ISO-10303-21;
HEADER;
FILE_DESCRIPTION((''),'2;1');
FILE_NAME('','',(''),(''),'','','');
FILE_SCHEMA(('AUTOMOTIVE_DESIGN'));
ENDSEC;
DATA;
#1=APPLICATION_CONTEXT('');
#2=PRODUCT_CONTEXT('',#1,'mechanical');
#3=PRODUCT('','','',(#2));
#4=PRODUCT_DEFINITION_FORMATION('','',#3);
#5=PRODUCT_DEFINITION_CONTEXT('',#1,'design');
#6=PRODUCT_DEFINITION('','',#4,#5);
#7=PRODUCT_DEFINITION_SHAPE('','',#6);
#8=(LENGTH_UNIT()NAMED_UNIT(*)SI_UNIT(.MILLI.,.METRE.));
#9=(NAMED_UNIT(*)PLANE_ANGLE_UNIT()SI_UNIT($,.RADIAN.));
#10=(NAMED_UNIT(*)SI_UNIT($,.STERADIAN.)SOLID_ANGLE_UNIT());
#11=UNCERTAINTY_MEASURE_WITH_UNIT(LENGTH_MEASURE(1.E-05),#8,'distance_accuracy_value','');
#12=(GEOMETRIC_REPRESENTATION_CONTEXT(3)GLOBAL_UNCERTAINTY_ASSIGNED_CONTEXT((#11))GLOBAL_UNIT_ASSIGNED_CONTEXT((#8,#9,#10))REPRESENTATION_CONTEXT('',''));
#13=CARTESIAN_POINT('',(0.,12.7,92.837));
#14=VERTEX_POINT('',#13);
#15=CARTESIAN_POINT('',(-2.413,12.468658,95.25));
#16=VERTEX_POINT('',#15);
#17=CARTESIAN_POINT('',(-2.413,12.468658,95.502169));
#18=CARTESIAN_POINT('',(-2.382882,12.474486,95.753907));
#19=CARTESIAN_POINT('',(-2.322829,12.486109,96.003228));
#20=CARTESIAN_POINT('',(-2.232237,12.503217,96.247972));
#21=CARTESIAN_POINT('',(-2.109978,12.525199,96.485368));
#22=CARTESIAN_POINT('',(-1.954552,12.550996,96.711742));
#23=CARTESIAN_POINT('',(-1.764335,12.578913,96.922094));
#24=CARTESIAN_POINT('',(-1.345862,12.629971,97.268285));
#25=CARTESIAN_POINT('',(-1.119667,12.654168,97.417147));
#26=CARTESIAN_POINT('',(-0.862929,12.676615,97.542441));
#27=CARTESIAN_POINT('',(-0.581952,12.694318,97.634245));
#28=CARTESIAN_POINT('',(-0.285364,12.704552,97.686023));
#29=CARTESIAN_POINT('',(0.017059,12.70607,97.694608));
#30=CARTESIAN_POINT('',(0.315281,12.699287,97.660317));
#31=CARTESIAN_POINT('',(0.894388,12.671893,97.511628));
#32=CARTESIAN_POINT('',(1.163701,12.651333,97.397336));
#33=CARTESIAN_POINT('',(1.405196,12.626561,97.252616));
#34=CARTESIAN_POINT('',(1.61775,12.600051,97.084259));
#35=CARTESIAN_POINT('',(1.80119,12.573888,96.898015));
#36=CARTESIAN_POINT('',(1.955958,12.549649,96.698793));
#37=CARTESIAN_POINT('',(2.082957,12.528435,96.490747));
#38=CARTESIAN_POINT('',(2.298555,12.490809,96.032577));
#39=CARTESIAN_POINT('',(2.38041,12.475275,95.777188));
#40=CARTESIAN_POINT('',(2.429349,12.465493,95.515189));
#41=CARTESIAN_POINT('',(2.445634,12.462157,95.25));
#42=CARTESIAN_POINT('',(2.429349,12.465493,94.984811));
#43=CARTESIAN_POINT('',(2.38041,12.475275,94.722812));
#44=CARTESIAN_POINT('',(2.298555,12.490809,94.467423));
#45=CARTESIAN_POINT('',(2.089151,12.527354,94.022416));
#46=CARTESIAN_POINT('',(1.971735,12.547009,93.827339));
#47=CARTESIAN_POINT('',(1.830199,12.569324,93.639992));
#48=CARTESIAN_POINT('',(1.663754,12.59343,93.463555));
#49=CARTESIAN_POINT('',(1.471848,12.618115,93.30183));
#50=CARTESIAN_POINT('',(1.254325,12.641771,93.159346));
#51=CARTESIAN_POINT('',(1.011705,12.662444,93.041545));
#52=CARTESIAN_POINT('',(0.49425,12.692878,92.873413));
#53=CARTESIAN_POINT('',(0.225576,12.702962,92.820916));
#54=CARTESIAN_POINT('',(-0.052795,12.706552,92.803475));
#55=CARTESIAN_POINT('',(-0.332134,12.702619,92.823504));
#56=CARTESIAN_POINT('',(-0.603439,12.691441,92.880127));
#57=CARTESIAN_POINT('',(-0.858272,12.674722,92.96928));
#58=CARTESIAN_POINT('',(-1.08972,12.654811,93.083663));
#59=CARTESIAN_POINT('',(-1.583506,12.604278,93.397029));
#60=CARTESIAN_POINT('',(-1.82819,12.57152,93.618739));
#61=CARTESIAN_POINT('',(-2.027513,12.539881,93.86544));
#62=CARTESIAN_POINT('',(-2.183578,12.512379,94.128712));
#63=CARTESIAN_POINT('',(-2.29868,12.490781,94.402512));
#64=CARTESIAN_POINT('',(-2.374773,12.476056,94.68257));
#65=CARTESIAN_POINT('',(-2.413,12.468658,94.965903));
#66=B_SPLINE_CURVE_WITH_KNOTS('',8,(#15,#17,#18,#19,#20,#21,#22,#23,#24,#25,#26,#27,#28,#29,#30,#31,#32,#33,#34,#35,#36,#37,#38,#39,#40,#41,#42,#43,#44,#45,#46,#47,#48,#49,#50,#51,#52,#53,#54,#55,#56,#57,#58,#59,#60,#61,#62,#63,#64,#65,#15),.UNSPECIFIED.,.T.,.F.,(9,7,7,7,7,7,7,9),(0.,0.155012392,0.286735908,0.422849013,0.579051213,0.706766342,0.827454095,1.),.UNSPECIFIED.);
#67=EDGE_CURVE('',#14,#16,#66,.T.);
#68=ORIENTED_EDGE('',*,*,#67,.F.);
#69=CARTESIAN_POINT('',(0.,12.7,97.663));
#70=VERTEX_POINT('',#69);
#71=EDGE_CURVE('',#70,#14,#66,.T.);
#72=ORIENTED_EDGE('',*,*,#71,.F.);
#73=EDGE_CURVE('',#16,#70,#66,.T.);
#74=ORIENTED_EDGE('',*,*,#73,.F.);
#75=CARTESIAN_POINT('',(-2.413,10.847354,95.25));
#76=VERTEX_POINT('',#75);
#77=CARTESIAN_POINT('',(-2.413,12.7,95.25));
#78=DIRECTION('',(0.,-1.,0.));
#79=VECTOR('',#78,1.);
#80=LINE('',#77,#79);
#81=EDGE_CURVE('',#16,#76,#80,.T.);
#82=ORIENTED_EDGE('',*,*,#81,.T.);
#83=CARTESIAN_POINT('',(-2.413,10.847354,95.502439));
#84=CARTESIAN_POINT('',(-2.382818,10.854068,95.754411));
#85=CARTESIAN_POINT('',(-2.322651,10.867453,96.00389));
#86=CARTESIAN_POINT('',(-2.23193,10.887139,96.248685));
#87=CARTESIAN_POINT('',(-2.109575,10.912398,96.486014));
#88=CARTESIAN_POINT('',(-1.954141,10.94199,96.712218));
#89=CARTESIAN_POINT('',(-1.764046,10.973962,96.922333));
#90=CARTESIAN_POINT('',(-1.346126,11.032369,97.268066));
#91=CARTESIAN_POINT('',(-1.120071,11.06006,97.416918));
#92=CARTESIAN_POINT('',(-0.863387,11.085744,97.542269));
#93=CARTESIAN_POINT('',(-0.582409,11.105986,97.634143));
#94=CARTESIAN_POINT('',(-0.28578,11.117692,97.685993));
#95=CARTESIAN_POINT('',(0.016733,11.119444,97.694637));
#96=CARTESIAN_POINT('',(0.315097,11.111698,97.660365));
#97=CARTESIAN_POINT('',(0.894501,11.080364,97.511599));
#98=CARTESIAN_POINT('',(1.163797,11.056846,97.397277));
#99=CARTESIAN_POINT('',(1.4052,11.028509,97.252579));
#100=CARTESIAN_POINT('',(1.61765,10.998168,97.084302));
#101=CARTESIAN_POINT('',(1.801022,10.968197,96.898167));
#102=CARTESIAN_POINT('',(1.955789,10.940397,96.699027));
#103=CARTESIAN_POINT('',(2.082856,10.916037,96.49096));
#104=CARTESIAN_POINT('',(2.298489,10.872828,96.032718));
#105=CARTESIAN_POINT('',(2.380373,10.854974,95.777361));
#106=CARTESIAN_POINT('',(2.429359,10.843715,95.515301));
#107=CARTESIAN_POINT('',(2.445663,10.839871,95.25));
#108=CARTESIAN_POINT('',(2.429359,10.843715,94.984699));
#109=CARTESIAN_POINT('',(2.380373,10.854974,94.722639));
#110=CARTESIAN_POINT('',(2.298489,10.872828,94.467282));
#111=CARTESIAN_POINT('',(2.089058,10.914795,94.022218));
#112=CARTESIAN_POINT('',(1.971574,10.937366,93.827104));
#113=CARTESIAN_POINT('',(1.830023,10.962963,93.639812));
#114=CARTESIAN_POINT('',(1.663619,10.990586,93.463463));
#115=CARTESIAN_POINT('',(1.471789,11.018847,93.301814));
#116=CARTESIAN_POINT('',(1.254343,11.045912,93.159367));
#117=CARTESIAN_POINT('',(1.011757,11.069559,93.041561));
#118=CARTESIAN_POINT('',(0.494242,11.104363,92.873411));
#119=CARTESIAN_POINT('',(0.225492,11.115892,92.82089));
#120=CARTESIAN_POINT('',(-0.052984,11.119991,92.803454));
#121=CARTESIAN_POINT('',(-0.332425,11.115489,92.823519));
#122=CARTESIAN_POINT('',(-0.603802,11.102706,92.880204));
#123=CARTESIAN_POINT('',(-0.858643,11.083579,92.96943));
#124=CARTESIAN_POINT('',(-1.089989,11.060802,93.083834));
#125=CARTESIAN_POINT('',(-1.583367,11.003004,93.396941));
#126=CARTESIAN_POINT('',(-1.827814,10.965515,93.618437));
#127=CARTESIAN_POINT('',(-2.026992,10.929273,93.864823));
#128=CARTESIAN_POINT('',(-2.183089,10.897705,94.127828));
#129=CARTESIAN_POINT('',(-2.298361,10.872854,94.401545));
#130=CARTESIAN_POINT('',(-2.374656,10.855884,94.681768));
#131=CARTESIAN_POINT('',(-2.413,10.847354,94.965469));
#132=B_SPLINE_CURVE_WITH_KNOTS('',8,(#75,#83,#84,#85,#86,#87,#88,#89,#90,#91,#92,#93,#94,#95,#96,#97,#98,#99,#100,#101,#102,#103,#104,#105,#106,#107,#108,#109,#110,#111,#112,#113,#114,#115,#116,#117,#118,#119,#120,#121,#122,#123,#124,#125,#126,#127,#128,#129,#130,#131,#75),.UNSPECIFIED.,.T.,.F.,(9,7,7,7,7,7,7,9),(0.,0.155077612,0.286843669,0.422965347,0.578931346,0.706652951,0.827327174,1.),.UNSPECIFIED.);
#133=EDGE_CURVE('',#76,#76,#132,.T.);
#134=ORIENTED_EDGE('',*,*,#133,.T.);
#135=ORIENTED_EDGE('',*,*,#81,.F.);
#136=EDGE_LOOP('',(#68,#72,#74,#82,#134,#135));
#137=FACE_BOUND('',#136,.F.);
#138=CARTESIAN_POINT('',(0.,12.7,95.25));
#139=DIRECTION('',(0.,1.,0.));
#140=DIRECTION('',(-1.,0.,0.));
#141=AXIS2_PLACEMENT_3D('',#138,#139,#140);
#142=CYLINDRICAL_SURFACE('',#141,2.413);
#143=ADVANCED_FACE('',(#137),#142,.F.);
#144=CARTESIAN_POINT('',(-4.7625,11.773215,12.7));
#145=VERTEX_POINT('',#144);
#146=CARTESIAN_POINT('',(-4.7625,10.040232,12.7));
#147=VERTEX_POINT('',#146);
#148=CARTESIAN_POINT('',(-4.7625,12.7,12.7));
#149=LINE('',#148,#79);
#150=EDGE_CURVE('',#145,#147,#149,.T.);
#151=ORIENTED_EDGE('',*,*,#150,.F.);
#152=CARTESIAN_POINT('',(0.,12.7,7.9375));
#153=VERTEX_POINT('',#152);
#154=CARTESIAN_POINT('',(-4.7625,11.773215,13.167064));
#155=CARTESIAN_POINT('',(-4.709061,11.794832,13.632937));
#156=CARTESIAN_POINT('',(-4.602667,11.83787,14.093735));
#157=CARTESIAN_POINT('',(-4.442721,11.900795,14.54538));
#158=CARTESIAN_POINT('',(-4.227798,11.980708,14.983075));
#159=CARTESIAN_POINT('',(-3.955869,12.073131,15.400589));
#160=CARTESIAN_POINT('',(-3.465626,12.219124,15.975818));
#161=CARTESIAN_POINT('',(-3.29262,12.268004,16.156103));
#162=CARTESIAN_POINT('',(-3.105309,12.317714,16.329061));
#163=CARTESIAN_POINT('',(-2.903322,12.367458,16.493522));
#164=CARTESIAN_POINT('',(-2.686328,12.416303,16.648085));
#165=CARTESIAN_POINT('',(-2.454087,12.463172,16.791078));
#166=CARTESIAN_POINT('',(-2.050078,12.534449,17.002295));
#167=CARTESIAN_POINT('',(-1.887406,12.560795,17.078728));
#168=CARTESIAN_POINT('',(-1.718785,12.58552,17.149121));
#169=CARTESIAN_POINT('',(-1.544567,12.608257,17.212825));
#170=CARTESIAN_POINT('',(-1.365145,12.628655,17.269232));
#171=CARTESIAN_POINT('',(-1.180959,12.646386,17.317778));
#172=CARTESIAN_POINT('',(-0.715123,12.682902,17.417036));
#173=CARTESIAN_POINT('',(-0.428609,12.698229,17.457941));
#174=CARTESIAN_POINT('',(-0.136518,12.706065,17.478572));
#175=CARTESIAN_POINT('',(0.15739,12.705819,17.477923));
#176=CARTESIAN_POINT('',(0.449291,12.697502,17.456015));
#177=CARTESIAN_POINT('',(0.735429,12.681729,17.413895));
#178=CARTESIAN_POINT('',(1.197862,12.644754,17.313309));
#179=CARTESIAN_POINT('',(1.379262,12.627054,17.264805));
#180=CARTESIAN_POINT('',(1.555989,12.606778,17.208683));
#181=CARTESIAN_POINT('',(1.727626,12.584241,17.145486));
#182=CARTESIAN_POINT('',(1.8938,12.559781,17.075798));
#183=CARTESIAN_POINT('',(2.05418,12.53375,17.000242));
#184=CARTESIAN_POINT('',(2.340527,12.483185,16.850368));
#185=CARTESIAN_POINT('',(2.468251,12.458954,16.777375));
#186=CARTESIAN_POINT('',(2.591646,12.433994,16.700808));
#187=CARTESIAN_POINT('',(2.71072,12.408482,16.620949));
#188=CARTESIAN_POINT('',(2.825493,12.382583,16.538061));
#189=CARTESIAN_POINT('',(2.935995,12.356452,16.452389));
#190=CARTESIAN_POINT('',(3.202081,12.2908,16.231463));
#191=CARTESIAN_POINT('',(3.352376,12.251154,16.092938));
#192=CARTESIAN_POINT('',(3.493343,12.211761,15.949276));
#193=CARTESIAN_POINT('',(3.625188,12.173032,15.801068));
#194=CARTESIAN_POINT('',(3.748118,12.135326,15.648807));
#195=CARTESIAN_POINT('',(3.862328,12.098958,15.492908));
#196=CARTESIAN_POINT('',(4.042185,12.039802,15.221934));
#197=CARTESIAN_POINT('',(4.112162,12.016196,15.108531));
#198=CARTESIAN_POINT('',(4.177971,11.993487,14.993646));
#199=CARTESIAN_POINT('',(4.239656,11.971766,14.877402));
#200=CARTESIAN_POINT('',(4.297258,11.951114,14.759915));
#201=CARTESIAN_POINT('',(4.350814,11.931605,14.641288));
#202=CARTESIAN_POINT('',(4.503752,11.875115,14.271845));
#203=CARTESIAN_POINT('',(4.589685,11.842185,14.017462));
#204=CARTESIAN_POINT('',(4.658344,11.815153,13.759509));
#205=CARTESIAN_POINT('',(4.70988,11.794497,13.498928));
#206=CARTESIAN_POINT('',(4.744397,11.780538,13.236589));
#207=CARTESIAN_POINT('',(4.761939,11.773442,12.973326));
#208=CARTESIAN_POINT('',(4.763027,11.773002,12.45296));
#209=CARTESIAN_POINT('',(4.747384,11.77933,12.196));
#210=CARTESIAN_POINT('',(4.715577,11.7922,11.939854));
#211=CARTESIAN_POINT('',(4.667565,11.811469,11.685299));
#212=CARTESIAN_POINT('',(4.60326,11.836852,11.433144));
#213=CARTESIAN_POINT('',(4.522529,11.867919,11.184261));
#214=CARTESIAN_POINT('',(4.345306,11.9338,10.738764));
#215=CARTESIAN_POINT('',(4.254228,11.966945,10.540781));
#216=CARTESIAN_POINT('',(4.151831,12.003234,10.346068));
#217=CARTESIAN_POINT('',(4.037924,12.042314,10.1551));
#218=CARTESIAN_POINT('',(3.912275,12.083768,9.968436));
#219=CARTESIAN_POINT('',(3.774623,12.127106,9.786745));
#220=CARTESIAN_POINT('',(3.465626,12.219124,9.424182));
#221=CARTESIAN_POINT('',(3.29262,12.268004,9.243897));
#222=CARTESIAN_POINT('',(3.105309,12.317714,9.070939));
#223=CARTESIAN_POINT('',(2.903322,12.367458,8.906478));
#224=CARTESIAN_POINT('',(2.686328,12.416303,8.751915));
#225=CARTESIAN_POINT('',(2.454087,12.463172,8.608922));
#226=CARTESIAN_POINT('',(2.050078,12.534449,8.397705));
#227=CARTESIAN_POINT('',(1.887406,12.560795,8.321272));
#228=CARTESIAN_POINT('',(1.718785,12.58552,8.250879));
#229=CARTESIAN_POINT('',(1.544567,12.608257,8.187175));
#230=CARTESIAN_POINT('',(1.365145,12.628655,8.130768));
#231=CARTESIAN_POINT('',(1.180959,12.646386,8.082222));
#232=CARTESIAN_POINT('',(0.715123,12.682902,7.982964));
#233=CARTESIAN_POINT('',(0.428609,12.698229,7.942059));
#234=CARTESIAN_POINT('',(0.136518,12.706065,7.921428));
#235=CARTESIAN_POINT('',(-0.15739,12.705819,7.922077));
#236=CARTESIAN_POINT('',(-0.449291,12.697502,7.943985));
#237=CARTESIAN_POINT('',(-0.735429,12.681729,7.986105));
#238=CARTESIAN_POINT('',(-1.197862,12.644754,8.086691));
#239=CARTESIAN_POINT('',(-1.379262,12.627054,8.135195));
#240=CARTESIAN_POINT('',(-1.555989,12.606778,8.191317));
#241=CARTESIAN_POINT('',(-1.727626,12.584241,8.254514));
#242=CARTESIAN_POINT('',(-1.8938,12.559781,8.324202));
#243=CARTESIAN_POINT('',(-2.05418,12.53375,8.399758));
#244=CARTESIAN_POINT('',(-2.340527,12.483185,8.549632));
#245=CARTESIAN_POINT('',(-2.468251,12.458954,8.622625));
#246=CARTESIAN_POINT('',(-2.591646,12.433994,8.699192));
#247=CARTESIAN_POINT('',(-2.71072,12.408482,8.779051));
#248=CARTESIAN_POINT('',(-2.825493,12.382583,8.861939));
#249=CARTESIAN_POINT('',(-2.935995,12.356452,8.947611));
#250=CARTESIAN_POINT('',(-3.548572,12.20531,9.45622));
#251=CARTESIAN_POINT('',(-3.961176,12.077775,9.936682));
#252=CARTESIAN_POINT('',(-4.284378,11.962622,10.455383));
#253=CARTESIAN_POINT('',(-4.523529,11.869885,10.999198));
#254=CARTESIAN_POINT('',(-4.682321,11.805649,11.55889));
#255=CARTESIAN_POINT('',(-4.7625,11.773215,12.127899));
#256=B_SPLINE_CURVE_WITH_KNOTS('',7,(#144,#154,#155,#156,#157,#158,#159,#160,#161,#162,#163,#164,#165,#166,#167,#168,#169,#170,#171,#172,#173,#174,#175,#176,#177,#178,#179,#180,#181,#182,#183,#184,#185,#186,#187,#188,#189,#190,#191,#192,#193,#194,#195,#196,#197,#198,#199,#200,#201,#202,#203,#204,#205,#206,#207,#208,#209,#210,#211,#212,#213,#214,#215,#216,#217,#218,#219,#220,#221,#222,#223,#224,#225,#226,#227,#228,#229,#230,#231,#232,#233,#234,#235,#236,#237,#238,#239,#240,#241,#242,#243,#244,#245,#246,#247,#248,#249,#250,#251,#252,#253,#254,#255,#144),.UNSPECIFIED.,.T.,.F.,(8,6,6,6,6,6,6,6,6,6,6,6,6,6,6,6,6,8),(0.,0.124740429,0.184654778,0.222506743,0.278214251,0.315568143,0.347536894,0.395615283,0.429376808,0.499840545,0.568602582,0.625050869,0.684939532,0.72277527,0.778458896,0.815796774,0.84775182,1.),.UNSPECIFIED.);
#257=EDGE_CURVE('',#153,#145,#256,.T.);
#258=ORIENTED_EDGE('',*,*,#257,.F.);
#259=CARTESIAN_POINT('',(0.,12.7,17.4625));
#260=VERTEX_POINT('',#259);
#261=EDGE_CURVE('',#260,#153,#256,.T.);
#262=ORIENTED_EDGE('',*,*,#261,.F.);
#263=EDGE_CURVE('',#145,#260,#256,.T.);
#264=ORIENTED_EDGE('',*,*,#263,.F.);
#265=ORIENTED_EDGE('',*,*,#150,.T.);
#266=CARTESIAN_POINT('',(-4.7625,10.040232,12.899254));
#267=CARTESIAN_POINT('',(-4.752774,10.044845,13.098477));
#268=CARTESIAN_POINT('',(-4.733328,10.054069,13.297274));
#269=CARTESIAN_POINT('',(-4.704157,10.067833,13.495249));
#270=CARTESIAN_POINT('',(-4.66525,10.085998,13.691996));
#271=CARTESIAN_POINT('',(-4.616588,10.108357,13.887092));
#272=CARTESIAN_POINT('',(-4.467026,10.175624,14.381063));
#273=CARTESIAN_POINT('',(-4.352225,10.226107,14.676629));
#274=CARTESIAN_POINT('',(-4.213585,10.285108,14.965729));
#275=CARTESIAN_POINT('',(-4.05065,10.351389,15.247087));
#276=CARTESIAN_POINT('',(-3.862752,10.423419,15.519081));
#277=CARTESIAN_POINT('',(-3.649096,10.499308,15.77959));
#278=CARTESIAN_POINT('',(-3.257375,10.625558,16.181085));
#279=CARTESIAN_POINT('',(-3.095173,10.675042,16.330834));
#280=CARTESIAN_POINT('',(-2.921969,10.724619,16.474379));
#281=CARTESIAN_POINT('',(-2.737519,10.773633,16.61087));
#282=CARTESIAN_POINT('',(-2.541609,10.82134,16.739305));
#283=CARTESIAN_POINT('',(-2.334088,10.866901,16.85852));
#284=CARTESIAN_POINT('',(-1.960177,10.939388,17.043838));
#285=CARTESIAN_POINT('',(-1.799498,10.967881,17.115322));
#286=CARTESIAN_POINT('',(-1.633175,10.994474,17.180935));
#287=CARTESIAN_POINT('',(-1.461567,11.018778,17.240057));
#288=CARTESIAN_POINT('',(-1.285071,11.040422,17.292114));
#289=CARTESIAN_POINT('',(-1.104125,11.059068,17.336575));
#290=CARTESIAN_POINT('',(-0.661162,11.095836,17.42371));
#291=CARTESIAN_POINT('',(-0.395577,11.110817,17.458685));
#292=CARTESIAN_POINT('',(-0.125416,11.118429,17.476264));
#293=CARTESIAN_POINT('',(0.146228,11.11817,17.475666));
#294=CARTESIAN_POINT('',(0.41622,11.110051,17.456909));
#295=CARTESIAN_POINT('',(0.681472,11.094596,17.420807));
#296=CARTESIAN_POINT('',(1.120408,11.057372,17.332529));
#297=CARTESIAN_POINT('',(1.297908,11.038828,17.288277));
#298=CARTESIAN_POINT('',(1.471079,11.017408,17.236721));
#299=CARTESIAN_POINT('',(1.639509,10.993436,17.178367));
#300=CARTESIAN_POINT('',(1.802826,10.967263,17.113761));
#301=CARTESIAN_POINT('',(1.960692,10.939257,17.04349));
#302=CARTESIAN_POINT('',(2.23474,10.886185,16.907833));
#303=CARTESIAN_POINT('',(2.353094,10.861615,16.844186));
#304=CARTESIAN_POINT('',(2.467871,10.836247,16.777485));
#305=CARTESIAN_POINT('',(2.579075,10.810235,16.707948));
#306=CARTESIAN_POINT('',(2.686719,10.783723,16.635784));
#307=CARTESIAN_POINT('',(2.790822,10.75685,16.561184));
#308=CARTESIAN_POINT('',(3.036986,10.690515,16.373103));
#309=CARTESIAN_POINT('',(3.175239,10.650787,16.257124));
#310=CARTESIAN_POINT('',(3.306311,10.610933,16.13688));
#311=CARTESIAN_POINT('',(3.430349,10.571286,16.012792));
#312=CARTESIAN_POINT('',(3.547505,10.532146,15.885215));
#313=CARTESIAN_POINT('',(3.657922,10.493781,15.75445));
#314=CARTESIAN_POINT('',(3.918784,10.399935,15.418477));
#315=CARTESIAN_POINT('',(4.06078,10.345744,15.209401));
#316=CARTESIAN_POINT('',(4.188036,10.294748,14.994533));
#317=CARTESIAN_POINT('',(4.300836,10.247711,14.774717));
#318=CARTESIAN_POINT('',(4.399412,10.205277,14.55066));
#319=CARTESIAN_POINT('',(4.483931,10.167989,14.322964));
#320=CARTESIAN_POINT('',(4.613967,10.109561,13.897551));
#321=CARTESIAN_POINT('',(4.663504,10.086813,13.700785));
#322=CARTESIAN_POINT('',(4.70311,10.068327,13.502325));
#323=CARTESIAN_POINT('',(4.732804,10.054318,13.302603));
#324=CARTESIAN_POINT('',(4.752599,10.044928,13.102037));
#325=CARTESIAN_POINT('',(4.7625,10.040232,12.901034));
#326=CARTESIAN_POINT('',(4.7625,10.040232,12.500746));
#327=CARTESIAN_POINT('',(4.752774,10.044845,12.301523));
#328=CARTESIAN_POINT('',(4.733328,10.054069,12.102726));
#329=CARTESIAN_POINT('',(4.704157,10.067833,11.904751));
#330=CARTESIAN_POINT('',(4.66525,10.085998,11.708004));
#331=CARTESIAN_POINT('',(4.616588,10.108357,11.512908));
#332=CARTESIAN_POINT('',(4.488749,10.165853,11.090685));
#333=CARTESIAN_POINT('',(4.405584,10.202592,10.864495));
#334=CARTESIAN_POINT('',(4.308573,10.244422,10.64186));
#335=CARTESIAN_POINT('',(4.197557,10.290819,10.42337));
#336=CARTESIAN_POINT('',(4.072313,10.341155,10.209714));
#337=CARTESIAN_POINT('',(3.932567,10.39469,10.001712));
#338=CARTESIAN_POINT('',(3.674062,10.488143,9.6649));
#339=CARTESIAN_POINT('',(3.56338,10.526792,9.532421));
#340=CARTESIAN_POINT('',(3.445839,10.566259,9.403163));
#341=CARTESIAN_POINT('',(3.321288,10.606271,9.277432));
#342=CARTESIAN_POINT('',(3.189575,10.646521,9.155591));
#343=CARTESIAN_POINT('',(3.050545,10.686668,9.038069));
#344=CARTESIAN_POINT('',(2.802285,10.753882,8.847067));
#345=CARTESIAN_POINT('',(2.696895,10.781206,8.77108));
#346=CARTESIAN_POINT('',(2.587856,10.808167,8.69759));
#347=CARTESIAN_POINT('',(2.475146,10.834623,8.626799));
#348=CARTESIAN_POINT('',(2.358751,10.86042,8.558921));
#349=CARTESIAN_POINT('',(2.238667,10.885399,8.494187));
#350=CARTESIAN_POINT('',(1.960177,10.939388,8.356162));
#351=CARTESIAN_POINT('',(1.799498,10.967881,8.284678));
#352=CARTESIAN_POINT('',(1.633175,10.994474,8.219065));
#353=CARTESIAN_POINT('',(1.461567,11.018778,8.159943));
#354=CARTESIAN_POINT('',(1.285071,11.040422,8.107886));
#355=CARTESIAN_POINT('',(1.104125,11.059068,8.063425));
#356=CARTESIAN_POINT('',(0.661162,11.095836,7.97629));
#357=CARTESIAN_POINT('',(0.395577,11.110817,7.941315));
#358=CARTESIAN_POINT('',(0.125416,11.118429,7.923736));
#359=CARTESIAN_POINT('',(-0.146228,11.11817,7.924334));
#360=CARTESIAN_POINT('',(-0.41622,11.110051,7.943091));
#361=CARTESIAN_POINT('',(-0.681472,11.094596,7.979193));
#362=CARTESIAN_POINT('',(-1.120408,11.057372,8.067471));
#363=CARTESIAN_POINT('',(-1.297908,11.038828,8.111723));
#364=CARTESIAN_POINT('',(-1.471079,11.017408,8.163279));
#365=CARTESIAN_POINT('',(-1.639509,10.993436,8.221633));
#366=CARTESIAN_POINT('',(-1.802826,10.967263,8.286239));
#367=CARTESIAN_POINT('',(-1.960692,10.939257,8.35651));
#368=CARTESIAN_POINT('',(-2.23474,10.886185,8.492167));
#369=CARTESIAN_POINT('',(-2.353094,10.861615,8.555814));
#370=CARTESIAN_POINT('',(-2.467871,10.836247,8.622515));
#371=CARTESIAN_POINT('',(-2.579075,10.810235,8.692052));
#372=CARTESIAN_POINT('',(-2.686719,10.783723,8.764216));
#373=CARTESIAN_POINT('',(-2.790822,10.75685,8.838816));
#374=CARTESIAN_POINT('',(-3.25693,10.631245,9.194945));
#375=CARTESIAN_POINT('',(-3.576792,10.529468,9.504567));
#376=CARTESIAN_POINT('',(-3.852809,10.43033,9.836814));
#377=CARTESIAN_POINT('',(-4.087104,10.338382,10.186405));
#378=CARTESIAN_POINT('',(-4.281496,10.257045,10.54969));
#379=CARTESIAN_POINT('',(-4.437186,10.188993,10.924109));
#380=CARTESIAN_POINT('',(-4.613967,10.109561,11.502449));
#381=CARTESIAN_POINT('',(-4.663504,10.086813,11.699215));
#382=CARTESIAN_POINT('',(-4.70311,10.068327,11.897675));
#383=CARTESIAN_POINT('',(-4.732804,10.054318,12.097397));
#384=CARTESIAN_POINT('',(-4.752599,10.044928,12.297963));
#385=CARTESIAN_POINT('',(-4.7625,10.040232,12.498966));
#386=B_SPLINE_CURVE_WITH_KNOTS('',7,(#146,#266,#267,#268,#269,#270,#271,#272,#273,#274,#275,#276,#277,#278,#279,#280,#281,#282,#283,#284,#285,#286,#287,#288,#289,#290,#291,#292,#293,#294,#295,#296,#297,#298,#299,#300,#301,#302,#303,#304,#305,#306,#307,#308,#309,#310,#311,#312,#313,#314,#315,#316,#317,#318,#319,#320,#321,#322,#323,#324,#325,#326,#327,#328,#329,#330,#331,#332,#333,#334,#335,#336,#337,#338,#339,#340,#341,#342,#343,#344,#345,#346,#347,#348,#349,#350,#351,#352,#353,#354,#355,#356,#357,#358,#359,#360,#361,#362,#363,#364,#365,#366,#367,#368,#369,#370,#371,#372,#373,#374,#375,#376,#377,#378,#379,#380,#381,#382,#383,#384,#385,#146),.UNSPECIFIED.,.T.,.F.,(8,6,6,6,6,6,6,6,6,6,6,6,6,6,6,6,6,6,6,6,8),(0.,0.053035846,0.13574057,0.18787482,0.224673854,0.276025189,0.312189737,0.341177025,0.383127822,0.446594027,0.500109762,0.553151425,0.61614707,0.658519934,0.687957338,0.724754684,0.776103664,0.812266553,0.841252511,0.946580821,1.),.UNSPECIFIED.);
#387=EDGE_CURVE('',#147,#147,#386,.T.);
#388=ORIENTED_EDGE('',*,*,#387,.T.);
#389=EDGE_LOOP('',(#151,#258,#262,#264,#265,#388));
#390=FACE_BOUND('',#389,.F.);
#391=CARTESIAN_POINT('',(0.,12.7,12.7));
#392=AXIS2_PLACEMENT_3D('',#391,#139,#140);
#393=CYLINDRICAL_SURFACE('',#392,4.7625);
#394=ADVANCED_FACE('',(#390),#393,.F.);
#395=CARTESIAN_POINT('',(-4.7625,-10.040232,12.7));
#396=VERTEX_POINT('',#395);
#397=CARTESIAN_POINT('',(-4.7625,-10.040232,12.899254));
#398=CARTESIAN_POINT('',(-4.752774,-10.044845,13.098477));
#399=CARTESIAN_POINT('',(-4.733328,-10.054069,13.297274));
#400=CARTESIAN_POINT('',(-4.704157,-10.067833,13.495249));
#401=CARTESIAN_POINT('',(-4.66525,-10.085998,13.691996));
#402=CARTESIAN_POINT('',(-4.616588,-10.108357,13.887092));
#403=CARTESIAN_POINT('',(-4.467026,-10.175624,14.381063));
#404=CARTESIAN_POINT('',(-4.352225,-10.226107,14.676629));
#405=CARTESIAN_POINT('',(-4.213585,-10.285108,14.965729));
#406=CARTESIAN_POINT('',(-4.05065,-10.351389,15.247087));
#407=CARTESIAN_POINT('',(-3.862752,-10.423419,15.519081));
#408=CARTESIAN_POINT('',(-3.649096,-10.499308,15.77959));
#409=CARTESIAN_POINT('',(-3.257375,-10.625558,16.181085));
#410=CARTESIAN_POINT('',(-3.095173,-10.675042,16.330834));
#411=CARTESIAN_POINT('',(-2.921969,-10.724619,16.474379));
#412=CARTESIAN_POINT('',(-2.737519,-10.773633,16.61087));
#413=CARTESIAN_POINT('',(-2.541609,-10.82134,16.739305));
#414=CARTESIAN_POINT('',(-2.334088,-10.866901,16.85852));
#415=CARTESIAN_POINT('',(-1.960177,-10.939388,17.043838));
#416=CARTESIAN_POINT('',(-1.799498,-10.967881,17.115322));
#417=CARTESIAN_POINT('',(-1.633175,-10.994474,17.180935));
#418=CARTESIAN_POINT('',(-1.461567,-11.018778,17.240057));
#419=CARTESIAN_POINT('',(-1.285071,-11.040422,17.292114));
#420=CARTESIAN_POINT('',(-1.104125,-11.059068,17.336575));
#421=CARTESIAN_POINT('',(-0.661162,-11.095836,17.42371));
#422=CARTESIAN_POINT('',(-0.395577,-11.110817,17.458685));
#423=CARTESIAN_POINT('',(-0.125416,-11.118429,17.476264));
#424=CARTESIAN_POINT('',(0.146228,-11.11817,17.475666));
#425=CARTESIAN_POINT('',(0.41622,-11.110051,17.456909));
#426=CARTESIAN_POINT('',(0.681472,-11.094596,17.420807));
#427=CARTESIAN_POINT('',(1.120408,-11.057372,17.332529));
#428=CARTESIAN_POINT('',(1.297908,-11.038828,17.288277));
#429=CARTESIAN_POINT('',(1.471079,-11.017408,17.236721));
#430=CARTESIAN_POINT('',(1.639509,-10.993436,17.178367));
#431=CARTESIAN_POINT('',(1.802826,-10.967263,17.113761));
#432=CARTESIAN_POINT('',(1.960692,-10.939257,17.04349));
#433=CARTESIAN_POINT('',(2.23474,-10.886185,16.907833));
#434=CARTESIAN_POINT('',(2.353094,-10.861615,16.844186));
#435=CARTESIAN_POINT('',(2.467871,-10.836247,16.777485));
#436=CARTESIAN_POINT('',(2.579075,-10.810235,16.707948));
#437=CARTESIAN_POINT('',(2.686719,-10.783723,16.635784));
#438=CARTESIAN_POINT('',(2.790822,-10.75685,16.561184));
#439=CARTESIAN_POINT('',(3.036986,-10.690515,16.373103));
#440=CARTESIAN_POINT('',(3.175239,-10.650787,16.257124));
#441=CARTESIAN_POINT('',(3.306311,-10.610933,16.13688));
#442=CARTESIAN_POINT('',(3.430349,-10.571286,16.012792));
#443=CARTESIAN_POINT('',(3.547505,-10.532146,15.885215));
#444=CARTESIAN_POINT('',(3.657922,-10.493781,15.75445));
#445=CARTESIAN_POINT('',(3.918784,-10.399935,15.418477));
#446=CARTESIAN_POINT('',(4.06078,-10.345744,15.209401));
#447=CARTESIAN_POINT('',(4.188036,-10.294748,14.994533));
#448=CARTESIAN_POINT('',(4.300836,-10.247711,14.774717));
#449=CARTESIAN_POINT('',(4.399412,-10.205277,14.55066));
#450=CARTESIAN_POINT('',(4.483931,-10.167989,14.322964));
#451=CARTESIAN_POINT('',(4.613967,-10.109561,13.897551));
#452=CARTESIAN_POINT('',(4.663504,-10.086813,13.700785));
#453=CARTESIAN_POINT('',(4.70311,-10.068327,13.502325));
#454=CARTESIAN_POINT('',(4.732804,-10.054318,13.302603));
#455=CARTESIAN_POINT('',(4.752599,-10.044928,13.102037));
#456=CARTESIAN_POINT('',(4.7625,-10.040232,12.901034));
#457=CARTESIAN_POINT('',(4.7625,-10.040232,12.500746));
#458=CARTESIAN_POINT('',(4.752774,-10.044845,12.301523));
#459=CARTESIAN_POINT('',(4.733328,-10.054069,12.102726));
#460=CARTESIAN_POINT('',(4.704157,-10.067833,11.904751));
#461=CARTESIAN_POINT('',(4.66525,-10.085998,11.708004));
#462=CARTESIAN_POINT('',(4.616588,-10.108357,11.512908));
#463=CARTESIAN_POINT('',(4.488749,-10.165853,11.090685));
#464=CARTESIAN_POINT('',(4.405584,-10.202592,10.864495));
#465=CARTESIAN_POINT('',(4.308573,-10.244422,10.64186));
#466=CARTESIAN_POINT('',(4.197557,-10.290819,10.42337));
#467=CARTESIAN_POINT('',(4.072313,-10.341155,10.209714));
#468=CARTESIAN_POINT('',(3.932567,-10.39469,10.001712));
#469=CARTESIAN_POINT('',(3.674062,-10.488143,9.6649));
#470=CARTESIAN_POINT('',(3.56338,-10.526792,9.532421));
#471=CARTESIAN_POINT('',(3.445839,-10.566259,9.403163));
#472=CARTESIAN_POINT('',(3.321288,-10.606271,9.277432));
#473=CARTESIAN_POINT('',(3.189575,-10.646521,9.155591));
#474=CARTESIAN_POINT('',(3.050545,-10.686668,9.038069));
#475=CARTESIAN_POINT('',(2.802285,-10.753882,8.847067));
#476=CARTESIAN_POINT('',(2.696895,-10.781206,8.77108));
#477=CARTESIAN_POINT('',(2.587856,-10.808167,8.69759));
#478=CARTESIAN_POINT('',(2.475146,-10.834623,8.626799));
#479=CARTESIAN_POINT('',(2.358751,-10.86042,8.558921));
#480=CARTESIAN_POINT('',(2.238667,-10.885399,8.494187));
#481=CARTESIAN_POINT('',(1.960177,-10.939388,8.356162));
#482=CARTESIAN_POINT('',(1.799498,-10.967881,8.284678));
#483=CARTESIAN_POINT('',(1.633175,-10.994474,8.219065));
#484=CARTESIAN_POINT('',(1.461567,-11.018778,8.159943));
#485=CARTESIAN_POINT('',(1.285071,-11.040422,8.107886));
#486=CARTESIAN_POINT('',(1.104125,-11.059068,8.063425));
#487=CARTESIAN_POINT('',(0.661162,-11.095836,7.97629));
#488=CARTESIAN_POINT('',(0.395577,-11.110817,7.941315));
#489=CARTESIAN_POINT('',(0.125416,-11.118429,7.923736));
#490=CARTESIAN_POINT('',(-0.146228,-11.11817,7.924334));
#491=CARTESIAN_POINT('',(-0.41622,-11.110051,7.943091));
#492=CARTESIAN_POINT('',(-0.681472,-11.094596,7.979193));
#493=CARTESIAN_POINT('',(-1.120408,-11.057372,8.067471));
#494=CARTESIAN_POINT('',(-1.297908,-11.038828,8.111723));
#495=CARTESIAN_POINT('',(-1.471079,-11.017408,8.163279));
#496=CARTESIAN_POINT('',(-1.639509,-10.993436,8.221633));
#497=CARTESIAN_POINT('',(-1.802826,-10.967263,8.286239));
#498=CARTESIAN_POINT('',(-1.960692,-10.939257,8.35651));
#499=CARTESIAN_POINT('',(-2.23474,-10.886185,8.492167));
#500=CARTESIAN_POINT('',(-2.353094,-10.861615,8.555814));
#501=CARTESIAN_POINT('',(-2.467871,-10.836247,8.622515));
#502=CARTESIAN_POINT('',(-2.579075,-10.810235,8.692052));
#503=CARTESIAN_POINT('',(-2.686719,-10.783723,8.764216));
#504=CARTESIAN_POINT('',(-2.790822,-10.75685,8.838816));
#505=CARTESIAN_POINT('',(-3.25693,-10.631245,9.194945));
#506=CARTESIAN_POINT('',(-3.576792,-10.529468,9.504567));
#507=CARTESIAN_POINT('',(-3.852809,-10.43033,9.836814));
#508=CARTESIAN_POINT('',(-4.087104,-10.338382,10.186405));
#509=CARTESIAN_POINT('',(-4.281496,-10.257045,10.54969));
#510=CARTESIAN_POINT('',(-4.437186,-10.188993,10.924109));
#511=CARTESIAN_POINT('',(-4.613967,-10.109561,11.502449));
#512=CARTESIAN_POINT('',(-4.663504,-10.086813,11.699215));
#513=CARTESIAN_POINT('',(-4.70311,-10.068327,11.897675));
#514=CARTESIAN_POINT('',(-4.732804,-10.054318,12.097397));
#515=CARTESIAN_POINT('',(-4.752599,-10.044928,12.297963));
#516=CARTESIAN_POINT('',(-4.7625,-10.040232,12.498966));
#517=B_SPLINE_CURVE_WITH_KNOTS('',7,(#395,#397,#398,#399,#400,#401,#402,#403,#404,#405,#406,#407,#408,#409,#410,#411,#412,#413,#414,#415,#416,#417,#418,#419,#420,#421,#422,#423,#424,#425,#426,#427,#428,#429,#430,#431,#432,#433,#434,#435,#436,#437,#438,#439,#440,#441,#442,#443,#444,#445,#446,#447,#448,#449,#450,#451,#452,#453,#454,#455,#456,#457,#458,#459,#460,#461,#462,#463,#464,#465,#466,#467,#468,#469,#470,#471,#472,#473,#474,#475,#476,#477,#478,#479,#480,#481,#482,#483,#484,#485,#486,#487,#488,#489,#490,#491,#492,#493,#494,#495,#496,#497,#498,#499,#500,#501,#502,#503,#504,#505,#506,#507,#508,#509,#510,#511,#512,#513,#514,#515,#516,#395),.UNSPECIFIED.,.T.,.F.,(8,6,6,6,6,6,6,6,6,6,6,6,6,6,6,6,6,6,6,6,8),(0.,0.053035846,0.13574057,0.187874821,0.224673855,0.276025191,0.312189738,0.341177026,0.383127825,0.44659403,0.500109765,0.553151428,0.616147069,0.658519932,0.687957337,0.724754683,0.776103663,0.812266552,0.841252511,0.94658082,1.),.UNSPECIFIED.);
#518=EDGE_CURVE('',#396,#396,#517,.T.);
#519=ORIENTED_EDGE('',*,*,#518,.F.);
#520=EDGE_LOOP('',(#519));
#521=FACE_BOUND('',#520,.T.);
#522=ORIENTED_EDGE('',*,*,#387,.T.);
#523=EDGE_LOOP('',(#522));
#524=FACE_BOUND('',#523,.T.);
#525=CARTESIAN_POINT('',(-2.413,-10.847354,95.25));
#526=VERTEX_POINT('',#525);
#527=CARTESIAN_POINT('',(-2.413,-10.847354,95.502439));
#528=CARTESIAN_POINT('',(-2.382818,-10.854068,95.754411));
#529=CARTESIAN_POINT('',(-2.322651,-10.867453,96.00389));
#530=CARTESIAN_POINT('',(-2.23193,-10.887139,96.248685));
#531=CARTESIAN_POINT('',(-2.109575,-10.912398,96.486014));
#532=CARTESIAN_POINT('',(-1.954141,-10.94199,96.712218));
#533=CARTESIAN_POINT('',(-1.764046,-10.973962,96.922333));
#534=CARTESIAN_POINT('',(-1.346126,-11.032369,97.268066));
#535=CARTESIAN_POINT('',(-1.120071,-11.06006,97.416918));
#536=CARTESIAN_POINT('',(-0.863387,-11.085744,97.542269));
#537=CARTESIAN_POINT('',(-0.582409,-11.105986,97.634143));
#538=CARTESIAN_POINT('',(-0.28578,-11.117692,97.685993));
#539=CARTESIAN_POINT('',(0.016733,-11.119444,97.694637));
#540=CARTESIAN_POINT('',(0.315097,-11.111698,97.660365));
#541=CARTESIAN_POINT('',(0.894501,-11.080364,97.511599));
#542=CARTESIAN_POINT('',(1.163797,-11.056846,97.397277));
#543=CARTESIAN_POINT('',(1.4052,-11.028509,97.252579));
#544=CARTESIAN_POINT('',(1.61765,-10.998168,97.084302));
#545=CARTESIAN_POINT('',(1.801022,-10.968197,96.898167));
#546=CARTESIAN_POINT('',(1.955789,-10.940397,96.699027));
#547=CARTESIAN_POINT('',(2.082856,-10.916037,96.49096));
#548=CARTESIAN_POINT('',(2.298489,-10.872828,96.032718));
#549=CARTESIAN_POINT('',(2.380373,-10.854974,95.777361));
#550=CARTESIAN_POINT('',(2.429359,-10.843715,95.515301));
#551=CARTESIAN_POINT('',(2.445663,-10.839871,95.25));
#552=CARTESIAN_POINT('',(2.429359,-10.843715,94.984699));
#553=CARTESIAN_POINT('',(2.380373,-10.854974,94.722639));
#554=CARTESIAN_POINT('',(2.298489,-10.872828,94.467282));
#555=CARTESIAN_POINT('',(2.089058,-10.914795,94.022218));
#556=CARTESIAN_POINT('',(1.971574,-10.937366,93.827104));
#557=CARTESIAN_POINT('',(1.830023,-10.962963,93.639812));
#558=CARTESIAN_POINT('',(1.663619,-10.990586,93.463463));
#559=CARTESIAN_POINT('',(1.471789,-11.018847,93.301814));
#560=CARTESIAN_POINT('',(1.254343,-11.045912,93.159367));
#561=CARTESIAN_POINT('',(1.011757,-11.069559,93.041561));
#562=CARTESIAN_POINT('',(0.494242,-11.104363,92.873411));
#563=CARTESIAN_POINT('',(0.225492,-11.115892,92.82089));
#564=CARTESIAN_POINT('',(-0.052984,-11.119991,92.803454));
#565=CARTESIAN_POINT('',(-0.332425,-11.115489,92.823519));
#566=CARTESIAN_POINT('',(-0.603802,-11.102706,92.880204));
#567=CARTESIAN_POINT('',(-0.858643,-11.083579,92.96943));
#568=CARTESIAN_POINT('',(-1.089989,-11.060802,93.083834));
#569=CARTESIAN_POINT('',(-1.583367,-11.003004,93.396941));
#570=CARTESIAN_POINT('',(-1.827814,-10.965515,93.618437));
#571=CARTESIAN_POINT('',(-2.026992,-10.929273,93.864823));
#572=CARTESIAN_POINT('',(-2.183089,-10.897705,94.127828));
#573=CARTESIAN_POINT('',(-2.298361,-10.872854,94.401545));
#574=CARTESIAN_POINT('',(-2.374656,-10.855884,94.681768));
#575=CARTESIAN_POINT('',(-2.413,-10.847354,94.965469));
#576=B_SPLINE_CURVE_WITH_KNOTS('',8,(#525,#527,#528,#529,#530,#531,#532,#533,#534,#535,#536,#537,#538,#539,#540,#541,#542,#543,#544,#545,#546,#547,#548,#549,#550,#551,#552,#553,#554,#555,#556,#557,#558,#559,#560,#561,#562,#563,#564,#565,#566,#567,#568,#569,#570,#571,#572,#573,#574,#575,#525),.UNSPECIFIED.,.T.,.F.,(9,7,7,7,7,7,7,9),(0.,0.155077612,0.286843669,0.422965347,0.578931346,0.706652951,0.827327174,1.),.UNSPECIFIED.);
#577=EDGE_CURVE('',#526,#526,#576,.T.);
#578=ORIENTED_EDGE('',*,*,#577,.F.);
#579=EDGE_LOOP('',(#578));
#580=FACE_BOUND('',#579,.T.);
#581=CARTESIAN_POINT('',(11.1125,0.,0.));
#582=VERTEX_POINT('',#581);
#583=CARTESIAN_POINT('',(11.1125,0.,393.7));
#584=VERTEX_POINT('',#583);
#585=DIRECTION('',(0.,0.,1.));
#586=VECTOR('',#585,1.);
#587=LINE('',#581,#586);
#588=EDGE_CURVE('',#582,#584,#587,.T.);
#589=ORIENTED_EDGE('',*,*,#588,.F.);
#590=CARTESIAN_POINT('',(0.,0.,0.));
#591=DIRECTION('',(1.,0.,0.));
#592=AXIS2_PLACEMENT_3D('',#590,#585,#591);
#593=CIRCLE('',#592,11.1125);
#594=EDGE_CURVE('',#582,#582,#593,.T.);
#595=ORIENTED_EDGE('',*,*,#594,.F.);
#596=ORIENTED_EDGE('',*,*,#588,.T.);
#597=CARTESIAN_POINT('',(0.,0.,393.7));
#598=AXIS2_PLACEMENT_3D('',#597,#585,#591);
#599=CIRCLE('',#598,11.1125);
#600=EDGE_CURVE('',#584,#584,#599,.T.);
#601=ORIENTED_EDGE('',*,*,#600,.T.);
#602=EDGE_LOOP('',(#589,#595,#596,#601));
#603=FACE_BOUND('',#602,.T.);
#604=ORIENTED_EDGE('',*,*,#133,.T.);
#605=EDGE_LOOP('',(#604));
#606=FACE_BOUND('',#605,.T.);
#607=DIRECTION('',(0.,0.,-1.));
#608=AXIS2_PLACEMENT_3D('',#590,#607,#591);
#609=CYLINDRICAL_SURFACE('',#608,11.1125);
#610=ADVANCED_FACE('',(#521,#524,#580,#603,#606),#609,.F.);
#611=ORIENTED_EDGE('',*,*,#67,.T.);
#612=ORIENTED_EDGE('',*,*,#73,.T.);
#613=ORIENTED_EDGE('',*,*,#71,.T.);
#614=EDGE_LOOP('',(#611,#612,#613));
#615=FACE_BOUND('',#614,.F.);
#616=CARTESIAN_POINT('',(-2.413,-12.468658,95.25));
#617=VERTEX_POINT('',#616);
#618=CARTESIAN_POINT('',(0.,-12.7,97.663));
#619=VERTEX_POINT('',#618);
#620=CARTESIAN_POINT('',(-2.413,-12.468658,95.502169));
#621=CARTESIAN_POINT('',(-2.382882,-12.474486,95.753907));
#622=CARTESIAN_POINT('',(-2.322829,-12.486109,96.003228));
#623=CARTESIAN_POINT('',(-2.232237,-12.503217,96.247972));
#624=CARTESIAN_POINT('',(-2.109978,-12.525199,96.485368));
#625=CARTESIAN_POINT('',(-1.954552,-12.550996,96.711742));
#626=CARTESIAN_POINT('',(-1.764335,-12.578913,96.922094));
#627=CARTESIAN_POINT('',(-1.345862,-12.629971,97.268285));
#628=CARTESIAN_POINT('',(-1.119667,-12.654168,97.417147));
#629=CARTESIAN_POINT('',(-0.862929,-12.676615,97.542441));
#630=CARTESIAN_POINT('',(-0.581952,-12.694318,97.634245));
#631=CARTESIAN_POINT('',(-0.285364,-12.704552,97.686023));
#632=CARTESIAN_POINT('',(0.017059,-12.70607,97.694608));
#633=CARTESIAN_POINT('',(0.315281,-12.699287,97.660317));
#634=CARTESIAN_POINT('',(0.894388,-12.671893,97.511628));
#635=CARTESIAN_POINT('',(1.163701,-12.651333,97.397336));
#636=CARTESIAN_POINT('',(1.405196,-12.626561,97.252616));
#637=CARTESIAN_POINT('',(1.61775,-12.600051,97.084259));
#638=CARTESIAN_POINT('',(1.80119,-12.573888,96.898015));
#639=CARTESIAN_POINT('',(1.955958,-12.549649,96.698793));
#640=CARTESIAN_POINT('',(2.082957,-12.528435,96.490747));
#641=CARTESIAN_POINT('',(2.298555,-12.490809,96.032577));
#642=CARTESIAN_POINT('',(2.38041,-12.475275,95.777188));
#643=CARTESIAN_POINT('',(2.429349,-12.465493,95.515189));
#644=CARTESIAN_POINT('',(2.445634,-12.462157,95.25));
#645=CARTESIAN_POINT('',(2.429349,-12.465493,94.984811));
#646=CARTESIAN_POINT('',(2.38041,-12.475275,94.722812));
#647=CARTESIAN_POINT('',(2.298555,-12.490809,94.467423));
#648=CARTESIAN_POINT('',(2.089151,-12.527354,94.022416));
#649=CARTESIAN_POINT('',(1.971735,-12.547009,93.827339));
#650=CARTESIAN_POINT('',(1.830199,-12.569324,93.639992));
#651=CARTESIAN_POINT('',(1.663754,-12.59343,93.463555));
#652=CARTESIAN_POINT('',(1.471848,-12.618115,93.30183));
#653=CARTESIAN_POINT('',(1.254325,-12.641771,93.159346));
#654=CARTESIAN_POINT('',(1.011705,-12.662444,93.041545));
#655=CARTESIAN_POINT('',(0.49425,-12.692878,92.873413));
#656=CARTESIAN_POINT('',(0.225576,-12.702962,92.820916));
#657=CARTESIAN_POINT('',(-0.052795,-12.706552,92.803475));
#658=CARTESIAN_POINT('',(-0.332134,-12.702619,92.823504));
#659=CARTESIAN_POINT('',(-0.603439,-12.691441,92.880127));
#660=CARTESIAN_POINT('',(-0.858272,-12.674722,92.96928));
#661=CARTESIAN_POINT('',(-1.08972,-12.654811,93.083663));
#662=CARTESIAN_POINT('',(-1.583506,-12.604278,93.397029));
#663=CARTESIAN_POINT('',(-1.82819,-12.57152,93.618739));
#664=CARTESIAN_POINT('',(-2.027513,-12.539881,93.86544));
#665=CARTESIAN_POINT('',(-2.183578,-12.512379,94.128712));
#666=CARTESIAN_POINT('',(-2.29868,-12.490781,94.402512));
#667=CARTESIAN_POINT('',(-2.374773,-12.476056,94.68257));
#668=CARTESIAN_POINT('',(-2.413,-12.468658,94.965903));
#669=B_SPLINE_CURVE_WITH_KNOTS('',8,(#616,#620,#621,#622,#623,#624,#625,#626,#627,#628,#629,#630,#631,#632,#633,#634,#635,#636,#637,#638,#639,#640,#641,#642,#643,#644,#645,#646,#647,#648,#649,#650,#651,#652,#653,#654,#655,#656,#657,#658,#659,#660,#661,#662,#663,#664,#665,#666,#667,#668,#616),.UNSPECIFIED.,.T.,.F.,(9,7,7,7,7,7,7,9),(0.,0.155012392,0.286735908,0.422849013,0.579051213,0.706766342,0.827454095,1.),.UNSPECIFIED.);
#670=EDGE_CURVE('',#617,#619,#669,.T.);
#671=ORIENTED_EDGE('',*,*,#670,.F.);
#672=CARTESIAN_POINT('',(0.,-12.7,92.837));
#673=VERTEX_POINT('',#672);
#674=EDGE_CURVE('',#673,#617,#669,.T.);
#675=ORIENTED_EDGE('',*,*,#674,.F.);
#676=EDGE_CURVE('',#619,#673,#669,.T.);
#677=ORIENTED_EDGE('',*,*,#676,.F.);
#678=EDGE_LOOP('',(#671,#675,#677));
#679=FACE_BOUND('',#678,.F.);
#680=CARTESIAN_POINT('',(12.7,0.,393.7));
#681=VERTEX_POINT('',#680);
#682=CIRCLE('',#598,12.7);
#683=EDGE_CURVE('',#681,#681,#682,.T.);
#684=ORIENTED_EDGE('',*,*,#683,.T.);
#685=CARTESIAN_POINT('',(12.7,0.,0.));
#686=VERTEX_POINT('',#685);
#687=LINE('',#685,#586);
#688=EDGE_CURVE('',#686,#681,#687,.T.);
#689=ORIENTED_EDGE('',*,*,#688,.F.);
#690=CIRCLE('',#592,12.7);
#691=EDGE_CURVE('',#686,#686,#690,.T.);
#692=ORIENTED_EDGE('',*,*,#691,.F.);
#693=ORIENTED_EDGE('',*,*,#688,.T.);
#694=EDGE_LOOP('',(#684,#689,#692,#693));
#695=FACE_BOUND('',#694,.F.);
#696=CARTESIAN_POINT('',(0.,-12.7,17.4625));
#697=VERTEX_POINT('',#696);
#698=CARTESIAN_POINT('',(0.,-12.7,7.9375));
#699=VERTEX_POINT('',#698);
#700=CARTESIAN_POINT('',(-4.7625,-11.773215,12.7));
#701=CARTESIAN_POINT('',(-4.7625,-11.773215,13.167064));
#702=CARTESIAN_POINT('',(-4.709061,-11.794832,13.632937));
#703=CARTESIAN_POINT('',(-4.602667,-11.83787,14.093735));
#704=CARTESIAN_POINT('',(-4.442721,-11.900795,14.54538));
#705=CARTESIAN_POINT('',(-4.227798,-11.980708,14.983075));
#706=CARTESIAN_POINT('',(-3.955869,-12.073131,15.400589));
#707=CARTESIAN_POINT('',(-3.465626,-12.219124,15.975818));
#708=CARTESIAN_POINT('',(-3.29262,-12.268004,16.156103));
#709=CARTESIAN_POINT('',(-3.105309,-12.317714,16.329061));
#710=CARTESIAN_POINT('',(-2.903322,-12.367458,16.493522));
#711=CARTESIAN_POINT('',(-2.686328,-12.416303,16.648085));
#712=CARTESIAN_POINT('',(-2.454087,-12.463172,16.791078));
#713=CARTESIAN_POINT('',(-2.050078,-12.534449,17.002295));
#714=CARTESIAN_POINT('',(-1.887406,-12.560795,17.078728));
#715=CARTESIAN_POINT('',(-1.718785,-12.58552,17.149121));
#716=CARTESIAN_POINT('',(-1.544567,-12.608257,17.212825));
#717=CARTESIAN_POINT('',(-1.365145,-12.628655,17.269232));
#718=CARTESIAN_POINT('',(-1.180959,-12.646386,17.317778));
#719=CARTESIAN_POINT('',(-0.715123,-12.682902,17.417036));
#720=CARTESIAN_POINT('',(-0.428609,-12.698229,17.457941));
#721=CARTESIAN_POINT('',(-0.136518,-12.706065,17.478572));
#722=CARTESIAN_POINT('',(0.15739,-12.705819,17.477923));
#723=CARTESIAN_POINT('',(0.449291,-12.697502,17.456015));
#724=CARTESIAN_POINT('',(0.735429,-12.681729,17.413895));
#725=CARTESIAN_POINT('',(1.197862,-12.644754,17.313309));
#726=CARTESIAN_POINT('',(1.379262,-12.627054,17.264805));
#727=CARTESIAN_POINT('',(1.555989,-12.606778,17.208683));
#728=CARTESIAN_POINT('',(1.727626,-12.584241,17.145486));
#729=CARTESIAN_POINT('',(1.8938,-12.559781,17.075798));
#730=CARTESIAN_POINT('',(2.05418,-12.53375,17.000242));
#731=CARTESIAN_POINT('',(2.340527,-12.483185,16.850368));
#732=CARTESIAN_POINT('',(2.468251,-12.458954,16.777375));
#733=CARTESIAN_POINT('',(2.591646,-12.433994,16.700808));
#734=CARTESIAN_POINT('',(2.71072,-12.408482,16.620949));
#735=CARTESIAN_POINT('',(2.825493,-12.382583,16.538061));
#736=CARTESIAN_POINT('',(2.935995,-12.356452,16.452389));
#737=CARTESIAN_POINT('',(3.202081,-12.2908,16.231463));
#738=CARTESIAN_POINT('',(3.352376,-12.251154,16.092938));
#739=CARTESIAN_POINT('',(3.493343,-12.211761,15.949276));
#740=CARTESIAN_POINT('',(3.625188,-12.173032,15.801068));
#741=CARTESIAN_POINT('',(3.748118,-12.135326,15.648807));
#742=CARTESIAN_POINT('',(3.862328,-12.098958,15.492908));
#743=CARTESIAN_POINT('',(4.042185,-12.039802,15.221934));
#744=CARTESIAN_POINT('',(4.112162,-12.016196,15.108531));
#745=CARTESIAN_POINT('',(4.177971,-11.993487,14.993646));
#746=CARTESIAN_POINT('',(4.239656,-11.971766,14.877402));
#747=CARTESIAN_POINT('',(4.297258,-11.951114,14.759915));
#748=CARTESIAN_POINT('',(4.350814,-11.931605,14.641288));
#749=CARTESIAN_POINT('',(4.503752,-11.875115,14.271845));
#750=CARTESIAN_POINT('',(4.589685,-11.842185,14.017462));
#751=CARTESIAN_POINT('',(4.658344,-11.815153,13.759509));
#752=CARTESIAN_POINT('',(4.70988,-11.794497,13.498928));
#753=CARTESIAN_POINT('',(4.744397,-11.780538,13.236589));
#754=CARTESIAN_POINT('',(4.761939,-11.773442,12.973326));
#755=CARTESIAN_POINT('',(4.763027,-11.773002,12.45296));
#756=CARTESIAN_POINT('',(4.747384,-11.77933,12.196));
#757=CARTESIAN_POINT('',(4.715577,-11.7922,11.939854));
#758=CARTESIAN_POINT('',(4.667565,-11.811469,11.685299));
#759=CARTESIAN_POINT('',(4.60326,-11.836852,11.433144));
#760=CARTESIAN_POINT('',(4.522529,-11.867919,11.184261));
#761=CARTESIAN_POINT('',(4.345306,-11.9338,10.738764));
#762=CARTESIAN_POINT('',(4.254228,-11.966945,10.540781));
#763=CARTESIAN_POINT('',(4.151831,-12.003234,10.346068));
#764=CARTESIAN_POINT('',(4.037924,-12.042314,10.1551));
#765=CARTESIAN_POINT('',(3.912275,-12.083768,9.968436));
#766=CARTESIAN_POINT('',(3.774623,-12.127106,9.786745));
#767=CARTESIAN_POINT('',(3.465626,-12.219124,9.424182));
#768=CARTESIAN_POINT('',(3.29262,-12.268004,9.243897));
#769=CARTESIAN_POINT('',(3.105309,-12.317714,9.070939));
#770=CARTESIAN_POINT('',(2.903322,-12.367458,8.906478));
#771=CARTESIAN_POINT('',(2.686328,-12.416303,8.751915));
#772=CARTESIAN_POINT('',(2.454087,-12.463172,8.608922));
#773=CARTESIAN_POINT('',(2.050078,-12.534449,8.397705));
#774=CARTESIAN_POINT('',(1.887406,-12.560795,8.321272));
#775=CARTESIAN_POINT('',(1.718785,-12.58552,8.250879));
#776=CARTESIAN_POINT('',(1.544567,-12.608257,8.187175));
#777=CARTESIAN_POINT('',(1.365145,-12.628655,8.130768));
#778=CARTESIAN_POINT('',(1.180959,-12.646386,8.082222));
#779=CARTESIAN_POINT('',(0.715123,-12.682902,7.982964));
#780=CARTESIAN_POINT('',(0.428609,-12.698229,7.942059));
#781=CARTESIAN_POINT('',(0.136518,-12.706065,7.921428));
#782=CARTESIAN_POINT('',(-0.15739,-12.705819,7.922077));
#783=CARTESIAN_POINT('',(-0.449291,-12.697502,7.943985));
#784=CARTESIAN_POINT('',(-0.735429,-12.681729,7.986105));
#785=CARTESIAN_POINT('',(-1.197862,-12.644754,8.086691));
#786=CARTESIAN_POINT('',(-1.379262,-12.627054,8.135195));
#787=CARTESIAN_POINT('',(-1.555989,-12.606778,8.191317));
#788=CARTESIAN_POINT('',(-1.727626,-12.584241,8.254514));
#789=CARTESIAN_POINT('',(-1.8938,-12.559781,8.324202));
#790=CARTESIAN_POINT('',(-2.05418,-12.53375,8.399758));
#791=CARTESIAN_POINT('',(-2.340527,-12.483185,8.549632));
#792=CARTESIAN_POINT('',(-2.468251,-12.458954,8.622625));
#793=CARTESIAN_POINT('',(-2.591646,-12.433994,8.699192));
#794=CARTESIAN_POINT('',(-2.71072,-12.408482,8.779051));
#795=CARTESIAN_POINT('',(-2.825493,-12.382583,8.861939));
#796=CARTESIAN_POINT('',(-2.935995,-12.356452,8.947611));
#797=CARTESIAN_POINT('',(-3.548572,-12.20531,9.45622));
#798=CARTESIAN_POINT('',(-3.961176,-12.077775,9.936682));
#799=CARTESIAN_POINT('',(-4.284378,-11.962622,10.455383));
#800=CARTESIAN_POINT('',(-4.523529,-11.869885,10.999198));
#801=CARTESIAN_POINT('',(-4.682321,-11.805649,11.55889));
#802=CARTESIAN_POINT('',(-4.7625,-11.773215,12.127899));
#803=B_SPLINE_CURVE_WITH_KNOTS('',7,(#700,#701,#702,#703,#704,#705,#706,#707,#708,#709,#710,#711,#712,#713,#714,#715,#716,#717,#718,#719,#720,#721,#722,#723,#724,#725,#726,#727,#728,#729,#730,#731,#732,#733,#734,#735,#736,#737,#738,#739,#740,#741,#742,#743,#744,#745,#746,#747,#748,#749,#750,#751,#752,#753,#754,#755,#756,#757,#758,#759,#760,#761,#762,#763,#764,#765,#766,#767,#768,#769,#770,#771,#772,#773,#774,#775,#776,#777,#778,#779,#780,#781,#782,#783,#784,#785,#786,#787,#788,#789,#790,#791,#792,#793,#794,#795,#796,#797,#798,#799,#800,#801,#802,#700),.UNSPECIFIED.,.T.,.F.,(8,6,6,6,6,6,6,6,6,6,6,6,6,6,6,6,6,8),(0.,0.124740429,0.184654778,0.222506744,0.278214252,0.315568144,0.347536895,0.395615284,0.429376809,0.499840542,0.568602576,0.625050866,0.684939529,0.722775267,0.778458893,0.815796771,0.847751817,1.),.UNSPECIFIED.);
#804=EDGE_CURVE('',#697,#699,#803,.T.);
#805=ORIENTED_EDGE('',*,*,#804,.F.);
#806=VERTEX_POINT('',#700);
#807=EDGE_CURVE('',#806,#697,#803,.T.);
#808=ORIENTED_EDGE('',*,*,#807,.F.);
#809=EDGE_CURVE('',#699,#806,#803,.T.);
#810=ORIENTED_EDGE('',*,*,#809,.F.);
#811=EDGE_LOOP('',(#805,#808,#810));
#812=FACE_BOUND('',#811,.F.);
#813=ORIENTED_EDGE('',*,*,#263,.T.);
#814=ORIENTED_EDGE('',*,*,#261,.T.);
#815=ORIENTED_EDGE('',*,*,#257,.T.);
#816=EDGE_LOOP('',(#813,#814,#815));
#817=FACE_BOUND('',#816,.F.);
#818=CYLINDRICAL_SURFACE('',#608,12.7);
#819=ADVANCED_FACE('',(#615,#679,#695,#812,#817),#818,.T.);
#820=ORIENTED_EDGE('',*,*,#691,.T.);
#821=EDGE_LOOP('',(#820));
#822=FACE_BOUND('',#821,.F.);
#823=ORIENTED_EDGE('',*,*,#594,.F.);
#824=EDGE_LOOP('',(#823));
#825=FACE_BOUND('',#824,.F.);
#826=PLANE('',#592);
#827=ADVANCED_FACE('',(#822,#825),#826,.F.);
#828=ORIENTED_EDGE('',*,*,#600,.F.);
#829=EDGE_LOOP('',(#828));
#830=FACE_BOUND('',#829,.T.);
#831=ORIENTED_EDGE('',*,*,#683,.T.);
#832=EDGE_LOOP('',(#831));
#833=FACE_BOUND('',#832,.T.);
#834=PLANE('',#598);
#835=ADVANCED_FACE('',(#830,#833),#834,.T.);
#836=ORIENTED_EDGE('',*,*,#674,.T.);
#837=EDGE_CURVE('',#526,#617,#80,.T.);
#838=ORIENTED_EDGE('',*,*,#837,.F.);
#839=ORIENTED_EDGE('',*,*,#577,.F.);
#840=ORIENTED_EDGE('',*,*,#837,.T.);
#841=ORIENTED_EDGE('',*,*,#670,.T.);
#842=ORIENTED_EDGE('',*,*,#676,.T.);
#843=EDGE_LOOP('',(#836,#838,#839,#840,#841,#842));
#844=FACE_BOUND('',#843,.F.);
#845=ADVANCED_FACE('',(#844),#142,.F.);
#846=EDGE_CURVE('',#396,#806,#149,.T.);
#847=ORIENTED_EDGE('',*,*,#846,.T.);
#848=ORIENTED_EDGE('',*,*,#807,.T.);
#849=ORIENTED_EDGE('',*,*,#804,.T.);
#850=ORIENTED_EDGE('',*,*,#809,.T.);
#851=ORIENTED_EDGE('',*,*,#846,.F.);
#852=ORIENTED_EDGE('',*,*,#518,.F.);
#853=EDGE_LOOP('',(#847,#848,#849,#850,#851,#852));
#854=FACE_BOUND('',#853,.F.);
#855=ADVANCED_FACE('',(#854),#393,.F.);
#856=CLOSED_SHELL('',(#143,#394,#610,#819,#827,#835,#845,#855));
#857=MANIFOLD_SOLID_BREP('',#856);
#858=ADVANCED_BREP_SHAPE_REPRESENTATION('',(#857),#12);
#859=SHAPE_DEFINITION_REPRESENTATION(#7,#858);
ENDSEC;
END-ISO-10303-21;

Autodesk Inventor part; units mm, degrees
ref_plane "YZ Plane" through (0, 0, 0) normal (1, 0, 0) x (0, 1, 0)
ref_plane "XY Plane" through (0, 0, 0) normal (0, 0, 1) x (1, 0, 0)
sketch "Sketch1" plane through (0, 0, 0) normal (0, 0, 1) x (1, 0, 0)
  circle A0 centre (0, 0) radius 12.7
  circle A1 centre (0, 0) radius 11.1125
  dimension "d0" = 25.4
  dimension "d1" = 22.225
extrude "Extrusion1" add sketch "Sketch1" along normal blind 393.7
ref_plane "Work Plane1" through (0, 12.7, 0) normal (0, 1, 0) x (-1, 0, 0)
sketch "Sketch2" plane through (0, 12.7, 0) normal (0, 1, 0) x (-1, 0, 0)
  line L0 (-12.7, 0) -> (-12.7, 393.7) projected
  line L1 (-12.7, 0) -> (12.7, 0) projected
  line L2 (12.7, 0) -> (12.7, 393.7) projected
  circle A0 centre (0, 12.7) radius 4.7625
  line L3 (0, 0) -> (0, 58.059) construction
  circle A1 centre (0, 95.25) radius 2.413
  dimension "d4" = 9.525
  dimension "d6" = 12.7
  dimension "d10" = 4.826
  dimension "d11" = 95.25
extrude "Extrusion2" cut sketch "Sketch2" against normal blind 25.4
properties part number "Polycarbonate Clamp Tube 1 in OD (8585K14)" material "Polycarbonate, Clear"
